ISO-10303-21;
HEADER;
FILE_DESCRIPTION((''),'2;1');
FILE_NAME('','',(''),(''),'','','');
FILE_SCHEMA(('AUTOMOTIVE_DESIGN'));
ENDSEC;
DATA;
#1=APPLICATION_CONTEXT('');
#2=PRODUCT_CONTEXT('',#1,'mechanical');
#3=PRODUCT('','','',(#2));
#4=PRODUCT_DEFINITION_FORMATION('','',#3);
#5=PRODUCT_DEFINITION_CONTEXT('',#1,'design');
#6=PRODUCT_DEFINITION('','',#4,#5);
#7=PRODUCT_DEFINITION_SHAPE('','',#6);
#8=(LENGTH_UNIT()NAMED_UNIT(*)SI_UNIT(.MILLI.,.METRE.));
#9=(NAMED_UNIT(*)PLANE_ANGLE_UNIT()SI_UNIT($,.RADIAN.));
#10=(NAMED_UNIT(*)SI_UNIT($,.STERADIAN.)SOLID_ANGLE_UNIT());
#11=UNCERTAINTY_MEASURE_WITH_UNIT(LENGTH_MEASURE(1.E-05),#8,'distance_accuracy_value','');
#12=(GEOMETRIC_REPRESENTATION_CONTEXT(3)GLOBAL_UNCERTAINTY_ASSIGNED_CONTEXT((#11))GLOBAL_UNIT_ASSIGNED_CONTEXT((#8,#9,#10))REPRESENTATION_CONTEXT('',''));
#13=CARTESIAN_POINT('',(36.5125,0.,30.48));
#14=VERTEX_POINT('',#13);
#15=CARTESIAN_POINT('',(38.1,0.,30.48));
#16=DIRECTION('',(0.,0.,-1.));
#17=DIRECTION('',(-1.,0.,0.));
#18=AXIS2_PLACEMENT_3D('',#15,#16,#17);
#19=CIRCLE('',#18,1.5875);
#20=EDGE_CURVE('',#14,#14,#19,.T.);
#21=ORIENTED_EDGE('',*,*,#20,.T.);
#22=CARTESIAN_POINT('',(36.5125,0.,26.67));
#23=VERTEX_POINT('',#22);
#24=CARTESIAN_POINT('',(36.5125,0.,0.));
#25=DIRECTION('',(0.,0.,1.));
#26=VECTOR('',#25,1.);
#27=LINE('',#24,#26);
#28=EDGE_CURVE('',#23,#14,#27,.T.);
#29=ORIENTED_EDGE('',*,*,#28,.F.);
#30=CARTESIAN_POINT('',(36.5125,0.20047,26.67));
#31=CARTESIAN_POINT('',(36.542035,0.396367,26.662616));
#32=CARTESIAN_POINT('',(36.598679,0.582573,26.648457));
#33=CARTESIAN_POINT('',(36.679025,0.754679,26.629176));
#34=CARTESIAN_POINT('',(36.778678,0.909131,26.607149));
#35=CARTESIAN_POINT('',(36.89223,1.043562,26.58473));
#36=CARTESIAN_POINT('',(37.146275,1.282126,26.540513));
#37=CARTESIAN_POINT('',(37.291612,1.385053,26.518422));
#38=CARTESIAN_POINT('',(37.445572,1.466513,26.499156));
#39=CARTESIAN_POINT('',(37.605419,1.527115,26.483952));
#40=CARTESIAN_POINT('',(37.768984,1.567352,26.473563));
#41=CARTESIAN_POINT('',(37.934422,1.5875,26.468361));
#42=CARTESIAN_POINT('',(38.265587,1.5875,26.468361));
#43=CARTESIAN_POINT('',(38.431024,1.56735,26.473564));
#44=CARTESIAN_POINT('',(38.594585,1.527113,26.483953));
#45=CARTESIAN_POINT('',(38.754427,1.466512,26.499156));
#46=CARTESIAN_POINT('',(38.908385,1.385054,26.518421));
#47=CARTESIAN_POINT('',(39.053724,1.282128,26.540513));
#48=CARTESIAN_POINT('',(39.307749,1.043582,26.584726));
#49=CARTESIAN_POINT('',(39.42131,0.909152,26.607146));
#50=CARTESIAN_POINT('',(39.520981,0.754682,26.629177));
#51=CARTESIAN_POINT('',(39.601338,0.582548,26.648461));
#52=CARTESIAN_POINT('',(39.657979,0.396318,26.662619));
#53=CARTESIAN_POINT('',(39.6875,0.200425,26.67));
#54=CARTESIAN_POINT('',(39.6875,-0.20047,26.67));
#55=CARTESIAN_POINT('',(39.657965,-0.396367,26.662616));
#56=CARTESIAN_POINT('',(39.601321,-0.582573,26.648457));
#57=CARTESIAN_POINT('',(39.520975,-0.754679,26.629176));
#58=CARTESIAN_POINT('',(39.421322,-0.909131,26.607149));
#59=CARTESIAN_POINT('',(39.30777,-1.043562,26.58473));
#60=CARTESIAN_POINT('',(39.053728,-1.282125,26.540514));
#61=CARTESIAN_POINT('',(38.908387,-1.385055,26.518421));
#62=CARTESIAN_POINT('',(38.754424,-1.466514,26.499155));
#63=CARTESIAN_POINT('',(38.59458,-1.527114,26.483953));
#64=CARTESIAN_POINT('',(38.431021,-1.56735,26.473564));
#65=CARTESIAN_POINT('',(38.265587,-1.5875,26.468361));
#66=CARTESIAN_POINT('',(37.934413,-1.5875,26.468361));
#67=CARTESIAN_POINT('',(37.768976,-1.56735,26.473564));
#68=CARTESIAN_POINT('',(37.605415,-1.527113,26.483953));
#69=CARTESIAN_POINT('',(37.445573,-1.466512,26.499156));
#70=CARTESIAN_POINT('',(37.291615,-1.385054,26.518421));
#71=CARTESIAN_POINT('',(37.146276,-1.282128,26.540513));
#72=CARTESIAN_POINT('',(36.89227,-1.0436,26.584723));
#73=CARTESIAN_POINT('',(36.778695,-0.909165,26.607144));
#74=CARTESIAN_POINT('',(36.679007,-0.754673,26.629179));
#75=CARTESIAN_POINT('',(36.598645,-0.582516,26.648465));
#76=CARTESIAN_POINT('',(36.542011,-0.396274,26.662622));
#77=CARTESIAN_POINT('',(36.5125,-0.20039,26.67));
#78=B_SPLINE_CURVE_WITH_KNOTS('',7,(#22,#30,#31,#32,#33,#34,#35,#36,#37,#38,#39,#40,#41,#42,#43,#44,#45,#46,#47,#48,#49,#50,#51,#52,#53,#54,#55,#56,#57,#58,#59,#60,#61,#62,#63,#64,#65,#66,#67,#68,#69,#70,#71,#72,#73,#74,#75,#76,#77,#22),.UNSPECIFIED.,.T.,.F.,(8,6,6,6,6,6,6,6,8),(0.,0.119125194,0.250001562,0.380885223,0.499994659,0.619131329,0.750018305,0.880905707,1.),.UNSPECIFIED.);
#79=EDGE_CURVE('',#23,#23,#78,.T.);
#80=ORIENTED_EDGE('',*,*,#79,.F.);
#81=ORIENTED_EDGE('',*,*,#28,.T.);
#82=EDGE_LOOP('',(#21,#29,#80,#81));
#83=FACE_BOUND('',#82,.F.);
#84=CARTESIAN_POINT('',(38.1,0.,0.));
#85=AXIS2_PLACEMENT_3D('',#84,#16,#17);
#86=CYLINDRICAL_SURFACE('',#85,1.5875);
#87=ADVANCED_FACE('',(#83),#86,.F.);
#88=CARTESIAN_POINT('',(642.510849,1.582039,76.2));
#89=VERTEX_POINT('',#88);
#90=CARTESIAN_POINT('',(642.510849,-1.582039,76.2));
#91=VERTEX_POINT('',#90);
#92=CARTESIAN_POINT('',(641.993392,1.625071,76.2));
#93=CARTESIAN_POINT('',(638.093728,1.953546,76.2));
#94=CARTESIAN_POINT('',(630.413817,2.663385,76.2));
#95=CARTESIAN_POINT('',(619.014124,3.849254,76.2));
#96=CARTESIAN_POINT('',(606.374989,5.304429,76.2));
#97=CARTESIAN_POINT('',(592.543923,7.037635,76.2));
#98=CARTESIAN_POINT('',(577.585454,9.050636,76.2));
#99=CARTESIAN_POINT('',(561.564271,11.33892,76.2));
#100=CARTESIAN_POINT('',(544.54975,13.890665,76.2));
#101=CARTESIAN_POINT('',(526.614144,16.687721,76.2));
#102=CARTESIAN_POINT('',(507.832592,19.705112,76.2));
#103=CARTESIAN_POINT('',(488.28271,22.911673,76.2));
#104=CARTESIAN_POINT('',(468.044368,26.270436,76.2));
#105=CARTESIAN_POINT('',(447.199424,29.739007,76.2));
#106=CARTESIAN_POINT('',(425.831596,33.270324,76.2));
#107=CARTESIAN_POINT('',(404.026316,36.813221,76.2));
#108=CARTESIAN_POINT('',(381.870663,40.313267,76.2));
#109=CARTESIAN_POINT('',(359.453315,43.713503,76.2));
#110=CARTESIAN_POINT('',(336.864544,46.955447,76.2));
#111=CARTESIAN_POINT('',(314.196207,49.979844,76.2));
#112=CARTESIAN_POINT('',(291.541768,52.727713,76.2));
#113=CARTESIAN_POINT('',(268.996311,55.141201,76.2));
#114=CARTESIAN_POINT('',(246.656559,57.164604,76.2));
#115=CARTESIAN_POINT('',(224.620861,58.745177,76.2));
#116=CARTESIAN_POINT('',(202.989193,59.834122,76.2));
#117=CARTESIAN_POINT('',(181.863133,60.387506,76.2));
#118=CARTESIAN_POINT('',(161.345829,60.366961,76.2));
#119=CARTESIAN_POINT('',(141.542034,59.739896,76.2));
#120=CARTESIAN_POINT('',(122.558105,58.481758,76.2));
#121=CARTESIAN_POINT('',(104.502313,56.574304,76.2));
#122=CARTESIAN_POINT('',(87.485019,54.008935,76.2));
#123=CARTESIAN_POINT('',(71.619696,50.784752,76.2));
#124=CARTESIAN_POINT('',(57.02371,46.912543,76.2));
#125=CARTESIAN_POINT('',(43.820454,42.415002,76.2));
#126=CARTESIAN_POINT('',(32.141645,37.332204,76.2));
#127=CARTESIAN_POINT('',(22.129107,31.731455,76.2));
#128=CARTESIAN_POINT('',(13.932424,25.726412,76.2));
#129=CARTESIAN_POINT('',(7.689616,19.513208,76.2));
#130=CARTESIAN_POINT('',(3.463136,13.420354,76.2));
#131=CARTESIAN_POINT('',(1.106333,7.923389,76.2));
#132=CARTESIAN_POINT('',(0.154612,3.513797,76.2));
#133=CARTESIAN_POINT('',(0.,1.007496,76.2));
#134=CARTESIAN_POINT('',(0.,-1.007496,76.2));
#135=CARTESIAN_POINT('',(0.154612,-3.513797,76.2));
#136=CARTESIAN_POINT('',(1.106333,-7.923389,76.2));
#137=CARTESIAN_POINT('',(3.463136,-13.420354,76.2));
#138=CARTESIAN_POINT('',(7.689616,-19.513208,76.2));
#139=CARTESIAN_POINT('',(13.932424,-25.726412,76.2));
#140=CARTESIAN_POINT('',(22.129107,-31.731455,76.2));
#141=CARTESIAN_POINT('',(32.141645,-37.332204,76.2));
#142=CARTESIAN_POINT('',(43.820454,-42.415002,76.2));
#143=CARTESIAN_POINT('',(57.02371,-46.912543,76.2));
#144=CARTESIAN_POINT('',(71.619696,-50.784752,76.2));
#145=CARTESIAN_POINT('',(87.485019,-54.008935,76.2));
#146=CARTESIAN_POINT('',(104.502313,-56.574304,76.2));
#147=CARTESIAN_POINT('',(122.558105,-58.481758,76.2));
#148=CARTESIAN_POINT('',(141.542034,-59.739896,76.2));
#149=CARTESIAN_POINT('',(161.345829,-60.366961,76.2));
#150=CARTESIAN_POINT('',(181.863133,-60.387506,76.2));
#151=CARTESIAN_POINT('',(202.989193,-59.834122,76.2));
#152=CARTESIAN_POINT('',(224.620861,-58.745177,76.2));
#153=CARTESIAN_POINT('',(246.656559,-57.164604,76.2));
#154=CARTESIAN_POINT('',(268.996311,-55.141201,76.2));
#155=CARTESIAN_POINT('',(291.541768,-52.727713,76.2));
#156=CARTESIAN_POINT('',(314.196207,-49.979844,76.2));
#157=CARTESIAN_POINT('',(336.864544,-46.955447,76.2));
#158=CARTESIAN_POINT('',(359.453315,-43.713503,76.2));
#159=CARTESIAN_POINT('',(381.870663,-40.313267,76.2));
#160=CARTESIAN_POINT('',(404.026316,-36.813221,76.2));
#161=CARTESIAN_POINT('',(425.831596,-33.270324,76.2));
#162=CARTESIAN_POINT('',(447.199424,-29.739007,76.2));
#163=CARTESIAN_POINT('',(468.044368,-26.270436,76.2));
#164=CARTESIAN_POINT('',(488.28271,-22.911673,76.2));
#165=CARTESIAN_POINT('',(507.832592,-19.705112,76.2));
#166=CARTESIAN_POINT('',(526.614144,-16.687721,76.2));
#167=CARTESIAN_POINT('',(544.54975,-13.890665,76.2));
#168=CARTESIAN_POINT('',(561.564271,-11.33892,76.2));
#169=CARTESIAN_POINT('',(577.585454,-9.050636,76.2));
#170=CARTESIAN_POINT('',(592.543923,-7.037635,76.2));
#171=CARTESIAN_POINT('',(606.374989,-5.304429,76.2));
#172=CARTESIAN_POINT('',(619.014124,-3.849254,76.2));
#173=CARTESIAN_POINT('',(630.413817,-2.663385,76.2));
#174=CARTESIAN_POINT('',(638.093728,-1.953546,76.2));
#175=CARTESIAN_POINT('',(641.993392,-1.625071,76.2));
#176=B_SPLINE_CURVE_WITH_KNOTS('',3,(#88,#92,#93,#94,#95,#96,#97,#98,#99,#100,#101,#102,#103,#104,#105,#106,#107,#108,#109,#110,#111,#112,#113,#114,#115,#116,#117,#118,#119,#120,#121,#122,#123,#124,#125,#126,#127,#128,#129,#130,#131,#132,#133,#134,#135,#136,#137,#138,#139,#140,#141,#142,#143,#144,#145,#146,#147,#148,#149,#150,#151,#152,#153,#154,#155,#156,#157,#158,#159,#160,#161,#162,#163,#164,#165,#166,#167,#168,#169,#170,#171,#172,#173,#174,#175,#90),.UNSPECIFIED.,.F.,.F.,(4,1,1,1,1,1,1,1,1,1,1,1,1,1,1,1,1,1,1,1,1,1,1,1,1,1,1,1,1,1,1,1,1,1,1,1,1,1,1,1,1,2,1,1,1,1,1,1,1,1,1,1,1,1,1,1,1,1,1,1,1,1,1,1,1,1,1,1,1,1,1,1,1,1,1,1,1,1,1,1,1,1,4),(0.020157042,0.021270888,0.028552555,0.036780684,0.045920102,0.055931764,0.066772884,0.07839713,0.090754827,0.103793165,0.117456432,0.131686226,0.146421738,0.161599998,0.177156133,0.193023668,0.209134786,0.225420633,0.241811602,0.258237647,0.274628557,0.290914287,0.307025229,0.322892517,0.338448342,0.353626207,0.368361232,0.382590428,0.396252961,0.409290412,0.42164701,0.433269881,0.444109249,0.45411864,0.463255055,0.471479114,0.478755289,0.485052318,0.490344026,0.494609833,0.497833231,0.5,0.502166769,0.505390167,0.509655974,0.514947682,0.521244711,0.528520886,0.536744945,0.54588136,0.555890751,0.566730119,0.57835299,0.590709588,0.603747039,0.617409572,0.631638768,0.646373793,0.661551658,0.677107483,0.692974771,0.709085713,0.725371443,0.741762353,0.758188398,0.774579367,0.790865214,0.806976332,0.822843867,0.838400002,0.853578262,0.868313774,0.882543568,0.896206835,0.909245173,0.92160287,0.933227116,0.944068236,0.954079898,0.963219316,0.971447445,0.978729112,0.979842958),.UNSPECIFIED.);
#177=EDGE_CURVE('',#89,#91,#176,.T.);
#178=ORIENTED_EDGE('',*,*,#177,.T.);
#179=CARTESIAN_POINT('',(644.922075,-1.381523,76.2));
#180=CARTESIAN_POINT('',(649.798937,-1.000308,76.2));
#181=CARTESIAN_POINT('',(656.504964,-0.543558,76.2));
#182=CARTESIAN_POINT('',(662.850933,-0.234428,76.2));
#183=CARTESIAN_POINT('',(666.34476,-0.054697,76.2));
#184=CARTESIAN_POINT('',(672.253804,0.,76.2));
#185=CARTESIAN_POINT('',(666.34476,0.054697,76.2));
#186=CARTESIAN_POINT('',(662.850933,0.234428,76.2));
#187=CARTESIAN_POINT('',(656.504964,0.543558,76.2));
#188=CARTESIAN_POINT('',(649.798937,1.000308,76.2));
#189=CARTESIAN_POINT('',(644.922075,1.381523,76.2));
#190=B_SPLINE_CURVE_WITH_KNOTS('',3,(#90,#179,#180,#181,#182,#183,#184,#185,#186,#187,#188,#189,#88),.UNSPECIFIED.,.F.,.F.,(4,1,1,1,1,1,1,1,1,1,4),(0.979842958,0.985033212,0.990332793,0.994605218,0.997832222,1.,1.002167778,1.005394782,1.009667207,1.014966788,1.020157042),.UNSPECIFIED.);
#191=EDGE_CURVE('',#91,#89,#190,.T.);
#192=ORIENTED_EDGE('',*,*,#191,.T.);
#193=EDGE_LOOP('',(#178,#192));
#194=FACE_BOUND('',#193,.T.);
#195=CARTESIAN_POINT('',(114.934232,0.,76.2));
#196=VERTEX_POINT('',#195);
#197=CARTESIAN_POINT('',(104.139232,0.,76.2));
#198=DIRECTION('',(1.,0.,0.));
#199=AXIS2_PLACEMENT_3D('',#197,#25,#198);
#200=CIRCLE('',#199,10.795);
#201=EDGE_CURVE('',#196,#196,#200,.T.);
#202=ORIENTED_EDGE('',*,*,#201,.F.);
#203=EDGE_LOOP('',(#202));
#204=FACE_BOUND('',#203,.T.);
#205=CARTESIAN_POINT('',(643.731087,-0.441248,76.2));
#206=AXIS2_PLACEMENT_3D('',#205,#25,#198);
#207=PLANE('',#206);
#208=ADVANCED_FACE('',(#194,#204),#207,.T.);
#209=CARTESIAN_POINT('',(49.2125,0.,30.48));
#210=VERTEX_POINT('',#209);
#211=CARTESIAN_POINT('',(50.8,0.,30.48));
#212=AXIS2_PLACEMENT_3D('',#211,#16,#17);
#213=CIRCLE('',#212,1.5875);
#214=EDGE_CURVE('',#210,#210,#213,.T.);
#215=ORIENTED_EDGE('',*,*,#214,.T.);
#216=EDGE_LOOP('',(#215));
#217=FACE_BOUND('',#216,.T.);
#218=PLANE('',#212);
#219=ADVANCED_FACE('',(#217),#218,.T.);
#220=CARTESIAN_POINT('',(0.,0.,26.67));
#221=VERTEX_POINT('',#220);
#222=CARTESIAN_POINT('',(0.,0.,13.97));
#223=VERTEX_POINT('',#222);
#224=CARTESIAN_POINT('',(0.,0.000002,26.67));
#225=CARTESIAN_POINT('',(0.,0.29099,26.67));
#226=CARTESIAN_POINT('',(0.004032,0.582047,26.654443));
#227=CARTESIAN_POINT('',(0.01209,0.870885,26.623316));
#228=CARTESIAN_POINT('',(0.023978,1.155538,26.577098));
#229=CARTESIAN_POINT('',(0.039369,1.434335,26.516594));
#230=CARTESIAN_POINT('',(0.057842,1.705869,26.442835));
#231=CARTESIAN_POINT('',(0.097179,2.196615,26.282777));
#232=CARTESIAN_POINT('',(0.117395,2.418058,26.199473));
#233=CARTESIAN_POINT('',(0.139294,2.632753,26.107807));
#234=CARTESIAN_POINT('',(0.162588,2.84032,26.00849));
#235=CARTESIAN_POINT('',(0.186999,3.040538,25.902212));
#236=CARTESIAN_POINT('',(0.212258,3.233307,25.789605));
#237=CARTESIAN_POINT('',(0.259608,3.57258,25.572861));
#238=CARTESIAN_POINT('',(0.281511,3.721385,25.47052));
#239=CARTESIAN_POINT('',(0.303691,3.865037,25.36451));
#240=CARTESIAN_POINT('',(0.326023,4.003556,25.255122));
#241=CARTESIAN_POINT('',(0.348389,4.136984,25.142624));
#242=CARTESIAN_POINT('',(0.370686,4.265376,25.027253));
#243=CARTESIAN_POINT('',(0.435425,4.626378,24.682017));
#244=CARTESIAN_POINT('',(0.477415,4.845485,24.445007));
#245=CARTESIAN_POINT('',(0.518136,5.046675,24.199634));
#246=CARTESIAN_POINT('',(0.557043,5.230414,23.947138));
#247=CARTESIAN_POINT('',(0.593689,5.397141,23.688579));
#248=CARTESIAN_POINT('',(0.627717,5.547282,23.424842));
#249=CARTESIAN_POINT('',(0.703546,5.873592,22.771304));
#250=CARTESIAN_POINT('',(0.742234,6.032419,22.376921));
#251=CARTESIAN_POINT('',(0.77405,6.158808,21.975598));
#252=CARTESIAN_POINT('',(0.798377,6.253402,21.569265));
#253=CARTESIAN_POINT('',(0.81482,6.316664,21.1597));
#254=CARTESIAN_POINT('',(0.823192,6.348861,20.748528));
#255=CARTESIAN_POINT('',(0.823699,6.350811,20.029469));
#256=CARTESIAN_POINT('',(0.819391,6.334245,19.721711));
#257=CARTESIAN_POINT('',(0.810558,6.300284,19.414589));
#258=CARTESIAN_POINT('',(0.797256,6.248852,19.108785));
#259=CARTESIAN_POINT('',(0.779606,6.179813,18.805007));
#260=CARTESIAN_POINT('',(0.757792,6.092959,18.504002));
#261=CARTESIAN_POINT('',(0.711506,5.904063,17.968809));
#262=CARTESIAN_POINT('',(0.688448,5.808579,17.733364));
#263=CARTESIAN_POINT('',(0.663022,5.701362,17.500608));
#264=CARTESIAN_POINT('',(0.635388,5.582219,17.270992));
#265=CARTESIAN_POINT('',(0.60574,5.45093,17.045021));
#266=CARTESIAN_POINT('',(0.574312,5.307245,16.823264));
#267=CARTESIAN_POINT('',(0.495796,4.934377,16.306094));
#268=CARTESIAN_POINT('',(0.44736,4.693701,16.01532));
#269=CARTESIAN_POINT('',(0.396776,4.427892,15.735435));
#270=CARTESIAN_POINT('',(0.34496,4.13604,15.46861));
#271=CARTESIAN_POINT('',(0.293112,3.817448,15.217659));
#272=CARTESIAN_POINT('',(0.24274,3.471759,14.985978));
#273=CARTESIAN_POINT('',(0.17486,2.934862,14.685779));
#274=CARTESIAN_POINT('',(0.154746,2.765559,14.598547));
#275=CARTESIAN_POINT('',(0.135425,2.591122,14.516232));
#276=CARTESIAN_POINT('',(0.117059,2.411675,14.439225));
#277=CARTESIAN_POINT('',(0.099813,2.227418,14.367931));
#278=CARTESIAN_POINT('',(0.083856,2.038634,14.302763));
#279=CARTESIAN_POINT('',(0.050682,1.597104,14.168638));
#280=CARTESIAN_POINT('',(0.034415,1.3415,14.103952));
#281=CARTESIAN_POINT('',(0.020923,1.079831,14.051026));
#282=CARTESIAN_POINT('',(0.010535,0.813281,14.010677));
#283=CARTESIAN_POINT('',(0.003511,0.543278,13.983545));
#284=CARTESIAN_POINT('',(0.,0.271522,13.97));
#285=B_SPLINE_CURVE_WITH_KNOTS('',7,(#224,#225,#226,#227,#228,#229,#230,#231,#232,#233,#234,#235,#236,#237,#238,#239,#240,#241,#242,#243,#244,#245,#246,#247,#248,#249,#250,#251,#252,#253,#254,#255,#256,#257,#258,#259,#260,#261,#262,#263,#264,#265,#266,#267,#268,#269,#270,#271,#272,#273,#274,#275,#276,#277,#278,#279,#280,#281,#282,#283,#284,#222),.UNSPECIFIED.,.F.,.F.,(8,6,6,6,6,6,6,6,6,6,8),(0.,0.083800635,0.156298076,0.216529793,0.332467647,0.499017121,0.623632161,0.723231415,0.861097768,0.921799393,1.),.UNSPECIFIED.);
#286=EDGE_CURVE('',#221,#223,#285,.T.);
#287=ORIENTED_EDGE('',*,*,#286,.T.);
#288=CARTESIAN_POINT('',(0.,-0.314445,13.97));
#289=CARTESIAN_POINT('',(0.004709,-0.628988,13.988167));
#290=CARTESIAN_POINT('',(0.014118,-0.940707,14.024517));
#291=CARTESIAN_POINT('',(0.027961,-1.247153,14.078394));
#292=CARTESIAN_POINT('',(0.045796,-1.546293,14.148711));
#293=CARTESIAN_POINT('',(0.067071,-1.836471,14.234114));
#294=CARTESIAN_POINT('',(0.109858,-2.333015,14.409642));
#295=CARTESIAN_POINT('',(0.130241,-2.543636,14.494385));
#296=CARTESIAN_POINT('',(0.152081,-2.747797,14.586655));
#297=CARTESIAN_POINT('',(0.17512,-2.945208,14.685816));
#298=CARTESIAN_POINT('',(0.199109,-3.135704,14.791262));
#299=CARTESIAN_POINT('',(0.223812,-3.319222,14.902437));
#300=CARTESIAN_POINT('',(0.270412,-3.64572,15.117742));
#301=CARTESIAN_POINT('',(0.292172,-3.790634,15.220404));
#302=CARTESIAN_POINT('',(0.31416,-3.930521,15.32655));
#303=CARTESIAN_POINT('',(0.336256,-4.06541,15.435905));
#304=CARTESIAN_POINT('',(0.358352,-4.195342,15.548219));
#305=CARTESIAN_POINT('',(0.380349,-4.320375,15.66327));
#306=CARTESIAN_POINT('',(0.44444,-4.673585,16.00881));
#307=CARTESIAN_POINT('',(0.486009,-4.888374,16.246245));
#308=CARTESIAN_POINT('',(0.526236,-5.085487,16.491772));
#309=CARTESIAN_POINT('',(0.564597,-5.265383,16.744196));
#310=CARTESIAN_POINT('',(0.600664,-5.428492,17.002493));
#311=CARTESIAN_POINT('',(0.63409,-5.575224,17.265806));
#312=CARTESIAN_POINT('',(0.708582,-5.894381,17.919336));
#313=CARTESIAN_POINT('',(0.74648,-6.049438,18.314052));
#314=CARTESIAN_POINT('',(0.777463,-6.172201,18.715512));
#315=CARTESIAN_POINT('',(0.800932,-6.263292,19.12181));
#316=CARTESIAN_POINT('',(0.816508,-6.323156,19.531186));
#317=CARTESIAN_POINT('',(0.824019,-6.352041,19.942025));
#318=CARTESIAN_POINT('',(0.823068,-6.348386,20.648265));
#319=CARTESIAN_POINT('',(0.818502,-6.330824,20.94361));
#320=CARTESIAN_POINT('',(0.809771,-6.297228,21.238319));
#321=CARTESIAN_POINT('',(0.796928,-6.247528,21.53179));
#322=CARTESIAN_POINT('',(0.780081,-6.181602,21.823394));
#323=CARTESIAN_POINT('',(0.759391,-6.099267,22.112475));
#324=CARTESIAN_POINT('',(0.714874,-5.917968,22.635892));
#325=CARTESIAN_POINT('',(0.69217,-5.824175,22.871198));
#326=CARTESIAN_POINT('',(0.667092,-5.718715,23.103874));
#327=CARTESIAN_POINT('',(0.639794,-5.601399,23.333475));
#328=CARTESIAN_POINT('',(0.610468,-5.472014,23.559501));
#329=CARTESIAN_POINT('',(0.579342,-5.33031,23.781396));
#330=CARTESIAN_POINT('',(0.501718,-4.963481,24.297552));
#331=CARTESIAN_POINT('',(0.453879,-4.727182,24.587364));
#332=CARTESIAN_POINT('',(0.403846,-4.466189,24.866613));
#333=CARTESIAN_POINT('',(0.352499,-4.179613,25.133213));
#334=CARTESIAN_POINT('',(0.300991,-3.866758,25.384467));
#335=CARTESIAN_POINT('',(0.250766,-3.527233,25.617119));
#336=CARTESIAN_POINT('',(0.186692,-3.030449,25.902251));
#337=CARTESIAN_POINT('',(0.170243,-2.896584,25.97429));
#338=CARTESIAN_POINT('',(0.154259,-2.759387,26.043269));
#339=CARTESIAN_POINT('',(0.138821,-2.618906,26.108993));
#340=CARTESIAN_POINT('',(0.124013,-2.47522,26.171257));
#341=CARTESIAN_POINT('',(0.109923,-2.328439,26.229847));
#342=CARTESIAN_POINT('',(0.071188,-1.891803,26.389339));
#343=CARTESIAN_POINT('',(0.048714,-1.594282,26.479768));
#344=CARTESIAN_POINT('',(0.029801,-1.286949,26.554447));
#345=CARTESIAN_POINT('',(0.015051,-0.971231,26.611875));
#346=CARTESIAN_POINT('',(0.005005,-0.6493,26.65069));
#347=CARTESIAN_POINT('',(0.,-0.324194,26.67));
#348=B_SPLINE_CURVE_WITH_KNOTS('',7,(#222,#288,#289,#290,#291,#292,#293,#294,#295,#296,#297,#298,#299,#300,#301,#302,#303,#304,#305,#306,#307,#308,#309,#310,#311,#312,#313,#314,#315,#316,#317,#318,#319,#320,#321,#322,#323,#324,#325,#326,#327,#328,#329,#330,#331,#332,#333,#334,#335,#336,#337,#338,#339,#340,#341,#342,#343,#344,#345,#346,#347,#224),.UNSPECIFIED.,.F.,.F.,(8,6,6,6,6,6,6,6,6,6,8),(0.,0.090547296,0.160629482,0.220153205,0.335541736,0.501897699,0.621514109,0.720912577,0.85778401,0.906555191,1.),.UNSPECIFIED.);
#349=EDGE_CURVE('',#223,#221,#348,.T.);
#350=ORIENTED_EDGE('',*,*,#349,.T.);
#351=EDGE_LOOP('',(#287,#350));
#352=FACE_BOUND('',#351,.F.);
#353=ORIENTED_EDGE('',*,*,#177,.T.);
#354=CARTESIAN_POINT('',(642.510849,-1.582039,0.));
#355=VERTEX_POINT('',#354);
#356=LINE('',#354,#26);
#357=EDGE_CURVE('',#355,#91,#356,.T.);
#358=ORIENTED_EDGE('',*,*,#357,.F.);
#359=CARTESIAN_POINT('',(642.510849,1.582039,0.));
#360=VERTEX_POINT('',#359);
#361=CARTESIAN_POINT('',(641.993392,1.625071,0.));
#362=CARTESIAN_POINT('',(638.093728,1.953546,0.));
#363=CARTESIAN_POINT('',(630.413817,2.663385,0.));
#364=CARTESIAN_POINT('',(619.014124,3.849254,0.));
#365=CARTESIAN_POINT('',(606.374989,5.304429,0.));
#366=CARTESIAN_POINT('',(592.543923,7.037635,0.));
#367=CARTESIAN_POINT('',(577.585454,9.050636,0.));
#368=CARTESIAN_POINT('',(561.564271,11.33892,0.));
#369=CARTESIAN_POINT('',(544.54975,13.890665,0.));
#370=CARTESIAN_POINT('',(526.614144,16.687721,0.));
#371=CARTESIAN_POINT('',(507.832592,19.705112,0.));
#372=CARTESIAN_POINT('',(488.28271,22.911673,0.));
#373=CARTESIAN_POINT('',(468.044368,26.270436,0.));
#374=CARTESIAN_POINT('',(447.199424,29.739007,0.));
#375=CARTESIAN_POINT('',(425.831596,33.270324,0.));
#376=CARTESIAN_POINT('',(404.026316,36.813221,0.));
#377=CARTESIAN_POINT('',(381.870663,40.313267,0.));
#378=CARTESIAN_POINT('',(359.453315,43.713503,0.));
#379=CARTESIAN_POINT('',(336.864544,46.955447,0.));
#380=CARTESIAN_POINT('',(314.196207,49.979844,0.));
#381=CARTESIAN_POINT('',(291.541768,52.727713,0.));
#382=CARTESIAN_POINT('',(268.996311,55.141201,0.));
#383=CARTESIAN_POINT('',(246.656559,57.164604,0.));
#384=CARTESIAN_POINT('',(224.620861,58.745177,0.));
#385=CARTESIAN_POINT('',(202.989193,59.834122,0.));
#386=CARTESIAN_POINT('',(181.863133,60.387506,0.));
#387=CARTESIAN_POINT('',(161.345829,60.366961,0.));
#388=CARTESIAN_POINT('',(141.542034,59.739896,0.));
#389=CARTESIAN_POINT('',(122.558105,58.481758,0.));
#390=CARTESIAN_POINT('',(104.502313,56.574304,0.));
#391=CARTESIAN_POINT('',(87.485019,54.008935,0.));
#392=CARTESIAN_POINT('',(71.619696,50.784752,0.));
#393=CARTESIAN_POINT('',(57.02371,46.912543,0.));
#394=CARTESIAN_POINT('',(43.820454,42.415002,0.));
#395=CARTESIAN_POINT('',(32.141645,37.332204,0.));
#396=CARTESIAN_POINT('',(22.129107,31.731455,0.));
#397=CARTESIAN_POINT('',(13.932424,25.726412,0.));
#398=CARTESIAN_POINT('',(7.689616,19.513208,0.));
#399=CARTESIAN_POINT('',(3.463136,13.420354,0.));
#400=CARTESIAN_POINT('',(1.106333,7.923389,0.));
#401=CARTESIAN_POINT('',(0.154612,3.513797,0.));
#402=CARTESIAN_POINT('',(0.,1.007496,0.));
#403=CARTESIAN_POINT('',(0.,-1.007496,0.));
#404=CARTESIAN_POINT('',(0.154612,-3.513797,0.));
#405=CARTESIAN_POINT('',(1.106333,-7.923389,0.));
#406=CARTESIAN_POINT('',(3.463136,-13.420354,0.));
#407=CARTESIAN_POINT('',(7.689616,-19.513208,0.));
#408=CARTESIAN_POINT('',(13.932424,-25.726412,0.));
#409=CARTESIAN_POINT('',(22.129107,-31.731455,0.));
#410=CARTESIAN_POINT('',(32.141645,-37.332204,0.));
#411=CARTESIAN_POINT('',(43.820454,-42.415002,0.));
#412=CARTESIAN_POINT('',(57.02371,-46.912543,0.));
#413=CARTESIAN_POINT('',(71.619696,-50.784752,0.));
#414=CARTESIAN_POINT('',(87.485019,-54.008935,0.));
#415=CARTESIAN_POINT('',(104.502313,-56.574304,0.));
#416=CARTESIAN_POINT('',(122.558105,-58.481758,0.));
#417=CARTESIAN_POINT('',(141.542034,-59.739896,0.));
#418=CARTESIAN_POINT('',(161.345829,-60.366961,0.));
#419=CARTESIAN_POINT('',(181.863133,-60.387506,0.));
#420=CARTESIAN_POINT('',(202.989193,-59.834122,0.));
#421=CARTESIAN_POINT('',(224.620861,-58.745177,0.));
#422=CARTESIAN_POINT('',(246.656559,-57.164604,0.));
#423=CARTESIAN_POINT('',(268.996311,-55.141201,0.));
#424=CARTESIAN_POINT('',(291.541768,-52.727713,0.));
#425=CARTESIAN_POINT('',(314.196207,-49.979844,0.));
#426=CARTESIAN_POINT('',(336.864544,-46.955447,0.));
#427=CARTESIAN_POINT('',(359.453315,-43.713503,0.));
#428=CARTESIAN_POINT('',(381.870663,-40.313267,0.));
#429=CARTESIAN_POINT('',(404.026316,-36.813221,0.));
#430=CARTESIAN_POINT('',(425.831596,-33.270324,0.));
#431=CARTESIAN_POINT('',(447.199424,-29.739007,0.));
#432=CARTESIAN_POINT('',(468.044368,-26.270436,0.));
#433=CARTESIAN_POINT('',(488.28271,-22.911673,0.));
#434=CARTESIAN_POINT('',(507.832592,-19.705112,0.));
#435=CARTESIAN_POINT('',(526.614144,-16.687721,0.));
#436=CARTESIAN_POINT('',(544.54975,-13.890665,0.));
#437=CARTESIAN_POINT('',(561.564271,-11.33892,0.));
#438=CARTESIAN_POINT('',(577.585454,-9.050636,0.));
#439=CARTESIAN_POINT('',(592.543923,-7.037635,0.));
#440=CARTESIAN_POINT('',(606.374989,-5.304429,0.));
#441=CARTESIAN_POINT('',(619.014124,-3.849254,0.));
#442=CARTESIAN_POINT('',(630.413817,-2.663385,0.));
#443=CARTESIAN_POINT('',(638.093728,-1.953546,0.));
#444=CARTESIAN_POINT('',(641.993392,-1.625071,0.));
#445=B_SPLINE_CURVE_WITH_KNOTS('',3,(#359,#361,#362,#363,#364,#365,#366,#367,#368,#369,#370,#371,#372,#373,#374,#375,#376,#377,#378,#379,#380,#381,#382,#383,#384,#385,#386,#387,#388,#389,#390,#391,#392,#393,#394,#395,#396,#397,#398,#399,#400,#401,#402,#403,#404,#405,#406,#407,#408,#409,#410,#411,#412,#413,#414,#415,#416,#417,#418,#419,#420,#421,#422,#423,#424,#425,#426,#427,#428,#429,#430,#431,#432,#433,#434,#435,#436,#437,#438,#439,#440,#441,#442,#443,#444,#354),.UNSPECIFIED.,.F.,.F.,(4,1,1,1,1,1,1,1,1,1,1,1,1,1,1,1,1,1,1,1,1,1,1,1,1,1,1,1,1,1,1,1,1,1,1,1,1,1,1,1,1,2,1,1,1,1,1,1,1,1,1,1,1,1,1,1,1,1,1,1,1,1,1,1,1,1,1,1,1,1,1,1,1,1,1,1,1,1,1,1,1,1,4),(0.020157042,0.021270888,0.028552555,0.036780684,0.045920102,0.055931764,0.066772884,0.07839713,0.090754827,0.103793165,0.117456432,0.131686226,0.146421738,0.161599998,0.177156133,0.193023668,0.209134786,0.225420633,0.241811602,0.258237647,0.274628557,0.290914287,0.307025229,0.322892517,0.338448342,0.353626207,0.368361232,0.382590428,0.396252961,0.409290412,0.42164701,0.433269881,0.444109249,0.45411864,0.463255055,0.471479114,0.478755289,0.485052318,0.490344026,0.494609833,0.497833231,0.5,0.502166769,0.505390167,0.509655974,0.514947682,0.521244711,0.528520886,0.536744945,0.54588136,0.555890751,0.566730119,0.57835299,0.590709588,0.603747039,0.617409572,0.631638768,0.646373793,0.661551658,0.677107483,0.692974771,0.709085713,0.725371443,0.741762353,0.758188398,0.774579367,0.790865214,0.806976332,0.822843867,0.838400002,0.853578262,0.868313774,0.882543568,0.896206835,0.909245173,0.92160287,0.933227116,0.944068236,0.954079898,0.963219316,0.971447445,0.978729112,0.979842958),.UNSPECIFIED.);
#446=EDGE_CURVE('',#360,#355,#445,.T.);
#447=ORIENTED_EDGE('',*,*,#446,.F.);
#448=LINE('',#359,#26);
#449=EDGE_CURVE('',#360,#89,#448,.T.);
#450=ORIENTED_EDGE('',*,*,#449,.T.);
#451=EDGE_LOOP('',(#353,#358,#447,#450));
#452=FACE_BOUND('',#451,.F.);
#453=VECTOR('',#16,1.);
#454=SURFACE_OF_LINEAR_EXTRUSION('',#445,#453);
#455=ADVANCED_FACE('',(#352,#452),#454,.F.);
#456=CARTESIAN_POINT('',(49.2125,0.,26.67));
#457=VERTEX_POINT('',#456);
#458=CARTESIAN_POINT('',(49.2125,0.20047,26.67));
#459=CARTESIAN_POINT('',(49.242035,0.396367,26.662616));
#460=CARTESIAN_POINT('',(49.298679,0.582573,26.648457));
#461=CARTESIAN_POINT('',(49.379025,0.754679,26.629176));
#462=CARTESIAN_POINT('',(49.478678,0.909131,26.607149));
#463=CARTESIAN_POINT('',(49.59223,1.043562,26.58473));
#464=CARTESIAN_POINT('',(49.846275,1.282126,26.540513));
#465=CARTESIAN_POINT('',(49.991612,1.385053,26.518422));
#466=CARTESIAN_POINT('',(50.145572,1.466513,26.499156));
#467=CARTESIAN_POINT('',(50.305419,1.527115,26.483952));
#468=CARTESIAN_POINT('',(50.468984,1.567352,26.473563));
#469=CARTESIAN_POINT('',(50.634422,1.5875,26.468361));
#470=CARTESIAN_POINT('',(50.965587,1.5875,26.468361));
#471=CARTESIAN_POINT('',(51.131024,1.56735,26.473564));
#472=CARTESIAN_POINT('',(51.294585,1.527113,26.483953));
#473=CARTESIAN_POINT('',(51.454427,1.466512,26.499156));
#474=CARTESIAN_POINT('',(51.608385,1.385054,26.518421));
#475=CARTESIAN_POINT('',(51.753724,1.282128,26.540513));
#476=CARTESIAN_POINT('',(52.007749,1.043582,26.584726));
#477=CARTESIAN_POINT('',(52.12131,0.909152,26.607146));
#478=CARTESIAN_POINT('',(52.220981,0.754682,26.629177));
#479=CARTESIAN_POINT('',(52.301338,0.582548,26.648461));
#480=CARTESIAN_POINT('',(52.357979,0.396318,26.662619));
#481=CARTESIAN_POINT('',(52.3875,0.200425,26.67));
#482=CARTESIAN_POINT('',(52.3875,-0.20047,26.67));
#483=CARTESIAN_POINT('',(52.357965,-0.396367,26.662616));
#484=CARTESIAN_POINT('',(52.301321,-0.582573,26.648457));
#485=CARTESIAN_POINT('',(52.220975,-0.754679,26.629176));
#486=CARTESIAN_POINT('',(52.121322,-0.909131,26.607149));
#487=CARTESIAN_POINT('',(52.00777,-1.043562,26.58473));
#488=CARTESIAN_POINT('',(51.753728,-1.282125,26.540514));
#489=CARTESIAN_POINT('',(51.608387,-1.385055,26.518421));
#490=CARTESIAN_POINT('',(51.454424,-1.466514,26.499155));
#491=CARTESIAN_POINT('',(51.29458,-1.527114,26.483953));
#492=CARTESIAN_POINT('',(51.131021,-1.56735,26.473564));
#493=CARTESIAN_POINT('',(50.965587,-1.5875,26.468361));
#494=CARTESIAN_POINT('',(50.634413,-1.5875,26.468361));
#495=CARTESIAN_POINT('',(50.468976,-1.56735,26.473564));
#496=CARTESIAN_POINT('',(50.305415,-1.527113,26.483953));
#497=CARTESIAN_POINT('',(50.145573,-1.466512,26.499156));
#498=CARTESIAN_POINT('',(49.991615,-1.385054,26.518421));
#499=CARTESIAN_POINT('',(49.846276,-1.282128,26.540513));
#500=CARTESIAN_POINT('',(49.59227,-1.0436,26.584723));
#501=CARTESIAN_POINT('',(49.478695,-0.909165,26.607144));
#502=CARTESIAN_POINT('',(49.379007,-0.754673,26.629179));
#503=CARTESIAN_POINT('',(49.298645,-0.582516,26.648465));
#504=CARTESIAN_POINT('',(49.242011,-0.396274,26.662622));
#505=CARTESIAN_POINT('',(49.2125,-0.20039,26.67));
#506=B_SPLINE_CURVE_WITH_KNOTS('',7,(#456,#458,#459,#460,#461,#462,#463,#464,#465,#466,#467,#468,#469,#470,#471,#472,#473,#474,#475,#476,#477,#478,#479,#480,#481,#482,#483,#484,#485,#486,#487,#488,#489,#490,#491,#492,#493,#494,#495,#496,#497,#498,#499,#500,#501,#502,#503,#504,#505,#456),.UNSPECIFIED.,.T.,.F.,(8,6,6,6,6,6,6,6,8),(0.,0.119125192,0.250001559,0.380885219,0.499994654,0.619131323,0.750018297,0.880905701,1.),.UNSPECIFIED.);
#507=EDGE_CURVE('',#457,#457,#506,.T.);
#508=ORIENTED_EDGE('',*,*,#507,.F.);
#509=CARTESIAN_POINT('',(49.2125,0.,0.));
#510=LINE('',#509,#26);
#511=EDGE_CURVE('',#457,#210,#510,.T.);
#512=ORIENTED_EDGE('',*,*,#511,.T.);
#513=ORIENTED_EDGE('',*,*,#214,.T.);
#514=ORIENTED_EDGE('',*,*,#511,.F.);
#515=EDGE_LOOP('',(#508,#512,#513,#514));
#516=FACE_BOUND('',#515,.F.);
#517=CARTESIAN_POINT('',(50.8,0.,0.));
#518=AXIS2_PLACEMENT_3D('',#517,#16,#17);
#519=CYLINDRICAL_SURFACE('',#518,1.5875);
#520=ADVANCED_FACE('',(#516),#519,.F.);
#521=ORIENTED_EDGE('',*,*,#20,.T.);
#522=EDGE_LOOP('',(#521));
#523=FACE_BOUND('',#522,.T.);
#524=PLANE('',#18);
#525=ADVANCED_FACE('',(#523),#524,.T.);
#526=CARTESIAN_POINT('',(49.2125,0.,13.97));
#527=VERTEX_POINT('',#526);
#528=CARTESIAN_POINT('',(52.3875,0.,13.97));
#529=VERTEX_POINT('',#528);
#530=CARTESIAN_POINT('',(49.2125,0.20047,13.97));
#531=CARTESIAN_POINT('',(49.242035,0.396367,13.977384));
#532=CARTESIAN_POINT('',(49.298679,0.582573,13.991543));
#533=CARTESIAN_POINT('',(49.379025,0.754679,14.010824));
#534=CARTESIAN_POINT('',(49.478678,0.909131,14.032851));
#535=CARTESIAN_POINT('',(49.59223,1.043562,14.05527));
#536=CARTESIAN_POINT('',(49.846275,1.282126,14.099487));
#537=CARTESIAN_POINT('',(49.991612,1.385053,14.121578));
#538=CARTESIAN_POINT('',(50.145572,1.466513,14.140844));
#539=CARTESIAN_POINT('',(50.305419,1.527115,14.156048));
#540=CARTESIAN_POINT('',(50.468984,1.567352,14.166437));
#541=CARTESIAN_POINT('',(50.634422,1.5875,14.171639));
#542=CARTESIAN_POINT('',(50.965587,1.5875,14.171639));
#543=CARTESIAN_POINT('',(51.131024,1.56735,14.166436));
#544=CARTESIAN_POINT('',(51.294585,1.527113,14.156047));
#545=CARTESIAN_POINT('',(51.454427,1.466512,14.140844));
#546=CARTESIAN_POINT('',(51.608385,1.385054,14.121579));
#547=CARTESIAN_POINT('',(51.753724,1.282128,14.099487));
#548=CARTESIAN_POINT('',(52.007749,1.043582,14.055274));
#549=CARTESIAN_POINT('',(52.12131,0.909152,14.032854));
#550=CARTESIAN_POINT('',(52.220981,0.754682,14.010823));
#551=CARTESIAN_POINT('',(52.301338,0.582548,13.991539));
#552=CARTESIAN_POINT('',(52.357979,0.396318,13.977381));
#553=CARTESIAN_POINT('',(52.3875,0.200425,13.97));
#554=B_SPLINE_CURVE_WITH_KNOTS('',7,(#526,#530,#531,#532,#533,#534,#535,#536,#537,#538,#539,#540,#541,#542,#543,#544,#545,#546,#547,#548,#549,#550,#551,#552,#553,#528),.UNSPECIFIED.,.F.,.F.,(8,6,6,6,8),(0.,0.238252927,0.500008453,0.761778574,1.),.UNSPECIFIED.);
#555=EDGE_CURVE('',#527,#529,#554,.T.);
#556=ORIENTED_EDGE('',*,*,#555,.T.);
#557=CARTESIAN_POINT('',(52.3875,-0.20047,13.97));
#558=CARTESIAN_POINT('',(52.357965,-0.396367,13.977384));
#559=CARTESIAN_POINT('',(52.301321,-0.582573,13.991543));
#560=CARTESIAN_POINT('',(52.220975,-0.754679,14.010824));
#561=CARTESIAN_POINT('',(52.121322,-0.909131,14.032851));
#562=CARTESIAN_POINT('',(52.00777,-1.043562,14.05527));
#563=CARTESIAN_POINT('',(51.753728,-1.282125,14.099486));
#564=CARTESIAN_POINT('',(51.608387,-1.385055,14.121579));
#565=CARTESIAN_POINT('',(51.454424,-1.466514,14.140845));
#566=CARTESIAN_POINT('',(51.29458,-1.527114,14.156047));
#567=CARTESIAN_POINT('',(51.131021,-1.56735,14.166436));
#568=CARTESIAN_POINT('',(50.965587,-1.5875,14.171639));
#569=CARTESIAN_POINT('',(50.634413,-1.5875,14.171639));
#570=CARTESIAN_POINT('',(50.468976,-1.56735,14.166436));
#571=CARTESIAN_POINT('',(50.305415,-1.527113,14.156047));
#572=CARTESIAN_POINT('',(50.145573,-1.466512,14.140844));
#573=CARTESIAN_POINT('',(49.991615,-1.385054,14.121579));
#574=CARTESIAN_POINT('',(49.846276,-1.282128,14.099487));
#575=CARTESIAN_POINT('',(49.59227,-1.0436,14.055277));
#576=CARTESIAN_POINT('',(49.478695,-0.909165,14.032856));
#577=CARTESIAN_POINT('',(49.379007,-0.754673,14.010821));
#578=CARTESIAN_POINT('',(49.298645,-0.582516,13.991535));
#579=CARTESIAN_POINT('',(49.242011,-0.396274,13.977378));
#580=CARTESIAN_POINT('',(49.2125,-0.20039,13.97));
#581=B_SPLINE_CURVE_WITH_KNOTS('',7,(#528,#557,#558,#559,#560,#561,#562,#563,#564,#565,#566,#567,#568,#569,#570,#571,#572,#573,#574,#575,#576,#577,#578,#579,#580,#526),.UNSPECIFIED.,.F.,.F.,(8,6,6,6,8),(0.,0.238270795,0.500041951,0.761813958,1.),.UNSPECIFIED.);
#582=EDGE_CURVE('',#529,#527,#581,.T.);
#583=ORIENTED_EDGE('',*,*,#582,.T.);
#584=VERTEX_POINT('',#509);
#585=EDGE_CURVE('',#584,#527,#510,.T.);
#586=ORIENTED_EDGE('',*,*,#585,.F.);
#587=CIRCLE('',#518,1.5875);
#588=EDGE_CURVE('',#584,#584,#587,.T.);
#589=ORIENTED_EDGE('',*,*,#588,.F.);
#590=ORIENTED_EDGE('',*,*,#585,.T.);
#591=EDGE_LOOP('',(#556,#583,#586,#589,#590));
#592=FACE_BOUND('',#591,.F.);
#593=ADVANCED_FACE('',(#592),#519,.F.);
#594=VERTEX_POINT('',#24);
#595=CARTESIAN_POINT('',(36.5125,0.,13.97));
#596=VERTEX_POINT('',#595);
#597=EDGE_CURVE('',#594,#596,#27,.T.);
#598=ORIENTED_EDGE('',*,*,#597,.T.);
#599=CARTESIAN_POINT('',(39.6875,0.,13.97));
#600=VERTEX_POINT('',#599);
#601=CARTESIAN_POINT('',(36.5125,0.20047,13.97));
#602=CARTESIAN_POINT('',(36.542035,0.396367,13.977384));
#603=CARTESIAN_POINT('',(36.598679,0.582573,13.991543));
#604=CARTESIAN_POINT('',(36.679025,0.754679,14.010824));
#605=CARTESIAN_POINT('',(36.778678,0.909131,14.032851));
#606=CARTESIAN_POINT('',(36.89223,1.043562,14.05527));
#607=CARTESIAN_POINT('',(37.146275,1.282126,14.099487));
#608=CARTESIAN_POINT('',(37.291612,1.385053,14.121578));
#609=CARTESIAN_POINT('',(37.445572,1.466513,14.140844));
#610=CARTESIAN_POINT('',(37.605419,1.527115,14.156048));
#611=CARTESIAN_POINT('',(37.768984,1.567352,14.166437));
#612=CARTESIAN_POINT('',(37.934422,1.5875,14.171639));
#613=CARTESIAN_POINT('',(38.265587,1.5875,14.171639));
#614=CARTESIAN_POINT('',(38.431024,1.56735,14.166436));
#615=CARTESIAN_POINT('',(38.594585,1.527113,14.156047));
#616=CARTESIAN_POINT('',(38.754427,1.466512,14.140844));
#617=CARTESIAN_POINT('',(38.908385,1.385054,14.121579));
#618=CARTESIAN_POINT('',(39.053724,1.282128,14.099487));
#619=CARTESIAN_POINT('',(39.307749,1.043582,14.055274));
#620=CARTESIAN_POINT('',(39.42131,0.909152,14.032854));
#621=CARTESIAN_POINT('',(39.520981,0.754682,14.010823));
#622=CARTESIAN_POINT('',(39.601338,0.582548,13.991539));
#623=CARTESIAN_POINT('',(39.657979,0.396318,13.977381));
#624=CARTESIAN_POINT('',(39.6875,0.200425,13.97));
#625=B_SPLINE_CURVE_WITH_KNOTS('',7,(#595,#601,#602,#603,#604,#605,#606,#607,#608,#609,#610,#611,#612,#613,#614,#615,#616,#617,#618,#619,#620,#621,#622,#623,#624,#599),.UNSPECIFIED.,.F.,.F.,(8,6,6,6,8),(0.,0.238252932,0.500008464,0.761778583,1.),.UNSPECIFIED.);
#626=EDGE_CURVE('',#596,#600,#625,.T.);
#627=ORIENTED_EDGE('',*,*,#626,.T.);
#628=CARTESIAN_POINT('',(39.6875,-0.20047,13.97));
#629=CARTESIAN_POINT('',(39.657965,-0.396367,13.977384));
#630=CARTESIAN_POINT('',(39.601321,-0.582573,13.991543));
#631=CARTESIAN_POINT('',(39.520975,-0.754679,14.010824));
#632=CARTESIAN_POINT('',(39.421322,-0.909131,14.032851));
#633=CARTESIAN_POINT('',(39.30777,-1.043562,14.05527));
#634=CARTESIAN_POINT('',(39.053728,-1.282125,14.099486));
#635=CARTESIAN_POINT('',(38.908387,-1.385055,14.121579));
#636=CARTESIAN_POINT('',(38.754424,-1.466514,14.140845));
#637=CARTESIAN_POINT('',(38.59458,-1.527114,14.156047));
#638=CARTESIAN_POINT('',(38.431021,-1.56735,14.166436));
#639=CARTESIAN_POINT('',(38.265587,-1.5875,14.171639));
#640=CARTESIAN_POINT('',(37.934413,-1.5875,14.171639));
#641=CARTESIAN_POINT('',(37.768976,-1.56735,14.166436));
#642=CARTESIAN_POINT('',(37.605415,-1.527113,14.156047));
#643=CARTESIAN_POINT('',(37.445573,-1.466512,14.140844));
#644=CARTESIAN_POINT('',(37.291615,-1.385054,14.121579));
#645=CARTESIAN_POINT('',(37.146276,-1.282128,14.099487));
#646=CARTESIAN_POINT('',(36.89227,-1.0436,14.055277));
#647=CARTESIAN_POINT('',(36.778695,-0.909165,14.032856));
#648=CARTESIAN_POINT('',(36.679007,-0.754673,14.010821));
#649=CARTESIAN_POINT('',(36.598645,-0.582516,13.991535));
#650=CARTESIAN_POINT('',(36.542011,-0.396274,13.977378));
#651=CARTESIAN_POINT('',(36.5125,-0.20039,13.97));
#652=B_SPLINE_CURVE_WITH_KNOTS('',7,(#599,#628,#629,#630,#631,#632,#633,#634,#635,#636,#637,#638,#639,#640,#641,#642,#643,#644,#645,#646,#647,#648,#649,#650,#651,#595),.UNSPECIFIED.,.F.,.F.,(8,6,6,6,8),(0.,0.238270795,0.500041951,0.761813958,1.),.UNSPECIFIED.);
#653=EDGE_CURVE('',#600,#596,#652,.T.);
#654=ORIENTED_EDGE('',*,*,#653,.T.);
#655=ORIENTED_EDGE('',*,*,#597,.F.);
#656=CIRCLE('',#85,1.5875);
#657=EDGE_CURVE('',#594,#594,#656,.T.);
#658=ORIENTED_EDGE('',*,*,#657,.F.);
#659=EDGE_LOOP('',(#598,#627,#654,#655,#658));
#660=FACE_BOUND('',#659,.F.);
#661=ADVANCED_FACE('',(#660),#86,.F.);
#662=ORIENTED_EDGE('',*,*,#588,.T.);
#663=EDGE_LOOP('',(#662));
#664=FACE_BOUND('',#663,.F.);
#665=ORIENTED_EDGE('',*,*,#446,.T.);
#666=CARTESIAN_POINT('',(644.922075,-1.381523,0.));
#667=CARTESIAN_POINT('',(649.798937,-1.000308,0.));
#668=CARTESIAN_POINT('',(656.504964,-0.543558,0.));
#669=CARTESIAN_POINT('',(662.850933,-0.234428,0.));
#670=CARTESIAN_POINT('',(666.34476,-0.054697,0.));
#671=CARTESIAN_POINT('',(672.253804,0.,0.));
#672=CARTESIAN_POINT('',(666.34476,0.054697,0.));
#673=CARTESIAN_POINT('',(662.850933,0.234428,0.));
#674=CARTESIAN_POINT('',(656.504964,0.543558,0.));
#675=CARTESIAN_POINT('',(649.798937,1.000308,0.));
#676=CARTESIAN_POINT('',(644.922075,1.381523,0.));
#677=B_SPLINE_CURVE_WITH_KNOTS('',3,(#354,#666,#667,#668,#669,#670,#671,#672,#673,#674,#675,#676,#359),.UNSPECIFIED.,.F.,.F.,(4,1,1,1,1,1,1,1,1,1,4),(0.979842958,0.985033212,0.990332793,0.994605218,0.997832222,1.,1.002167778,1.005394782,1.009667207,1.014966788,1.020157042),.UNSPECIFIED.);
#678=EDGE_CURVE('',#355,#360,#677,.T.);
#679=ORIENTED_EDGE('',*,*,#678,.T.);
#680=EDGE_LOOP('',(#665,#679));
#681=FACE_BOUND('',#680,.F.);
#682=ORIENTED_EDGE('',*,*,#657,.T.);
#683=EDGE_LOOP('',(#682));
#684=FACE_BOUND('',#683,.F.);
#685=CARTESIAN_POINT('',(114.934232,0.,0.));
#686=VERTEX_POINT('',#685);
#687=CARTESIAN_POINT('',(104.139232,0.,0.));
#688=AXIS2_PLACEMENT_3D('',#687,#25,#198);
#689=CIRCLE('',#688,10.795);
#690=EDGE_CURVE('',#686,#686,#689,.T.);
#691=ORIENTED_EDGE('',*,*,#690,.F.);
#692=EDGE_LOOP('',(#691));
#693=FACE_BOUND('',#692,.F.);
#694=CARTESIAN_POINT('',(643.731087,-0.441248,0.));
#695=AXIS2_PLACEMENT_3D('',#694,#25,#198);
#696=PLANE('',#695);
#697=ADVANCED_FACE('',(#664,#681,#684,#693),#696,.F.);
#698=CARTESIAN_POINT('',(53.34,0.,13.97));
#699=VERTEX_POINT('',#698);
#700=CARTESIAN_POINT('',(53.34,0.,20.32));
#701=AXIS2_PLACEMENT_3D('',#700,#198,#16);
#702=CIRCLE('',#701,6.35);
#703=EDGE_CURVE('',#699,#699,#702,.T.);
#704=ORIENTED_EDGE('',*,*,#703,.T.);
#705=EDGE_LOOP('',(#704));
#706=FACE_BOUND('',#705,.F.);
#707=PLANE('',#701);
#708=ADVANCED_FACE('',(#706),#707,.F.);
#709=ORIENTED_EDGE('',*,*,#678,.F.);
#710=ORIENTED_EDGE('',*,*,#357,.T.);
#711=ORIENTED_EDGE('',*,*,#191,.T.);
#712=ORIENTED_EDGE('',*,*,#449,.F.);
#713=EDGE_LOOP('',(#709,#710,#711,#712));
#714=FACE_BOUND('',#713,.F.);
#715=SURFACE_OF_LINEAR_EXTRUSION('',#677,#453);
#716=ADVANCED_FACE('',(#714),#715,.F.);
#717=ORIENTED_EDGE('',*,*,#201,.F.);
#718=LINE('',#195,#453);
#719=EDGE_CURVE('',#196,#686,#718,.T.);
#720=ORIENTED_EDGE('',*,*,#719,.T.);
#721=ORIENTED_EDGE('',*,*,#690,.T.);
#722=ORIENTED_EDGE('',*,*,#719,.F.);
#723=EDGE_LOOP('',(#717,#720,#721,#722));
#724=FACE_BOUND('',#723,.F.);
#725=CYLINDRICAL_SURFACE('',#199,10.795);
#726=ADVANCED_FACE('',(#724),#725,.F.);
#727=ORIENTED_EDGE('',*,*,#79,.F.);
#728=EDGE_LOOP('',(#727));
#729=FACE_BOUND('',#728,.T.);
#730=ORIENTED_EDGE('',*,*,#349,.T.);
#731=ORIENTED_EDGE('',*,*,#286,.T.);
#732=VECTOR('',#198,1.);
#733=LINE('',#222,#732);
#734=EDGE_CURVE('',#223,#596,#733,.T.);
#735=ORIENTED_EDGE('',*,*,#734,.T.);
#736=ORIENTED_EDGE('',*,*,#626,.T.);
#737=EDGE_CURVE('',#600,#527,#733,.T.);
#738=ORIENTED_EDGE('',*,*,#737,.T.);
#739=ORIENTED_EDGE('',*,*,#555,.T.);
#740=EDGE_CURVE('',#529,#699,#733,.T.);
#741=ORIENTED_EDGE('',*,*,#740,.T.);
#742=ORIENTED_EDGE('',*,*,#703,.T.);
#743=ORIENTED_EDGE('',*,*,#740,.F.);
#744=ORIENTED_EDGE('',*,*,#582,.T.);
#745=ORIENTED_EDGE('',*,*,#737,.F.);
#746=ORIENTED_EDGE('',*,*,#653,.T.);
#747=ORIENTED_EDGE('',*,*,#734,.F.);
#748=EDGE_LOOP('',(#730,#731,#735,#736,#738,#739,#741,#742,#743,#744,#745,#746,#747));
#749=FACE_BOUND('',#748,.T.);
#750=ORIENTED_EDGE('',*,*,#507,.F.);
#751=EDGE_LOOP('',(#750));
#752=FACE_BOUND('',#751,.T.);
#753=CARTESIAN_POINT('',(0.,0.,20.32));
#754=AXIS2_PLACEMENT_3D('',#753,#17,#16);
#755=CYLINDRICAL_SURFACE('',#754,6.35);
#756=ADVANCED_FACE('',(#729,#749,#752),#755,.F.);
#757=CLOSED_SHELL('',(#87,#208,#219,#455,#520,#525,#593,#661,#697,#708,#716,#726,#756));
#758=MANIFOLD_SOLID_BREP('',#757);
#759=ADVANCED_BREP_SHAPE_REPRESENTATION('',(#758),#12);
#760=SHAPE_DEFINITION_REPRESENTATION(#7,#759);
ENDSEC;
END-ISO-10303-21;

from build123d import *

# Parameters (mm, degrees)
BOSS_EXTRUDE1_DEPTH     = 76.2
SKETCH3_R               = 10.795
CUT_EXTRUDE2_DEPTH      = 76.2
SKETCH6_R               = 6.35
CUT_EXTRUDE3_DEPTH      = 53.34
CUT_EXTRUDE3_DEPTH_BACK = 0.000254
SKETCH7_R               = 1.5875
CUT_EXTRUDE4_DEPTH      = 30.48


with BuildPart() as part:
    # Sketch1 → Boss-Extrude1 (new body)
    with BuildSketch(Plane.XY):
        with BuildLine():
            Line((643.966787522, 0), (643.599082689, 0))
            Line((643.599082689, 0), (643.599082689, -1.016))
            ThreePointArc((643.599082689, -1.016), (643.872033494, -0.540245973), (643.966787522, 0))
        make_face()
        with BuildLine():
            Line((643.599082689, -1.016), (643.599082689, 0))
            Line((643.599082689, 0), (641.567082689, 0))
            ThreePointArc((641.567082689, 0), (642.269121423, -1.135922533), (643.599082689, -1.016))
        make_face()
        with BuildLine():
            Line((641.567082689, 0), (643.599082689, 0))
            Line((643.599082689, 0), (643.966787522, 0))
            ThreePointArc((643.966787522, 0), (643.547407924, 1.075012082), (642.510849283, 1.582039112))
            add(Edge.make_bspline(
                [(642.510849283, 1.582039112), (641.993392355, 1.625070631), (638.093728429, 1.953546407), (630.413817462, 2.663385493), (619.014124193, 3.849253664), (606.374988512, 5.304428983), (592.543922516, 7.037634907), (577.585454095, 9.050636147), (561.564270734, 11.338919625), (544.549749946, 13.890665375), (526.614143658, 16.687720753), (507.832591566, 19.705111663), (488.282710288, 22.911672601), (468.044367735, 26.27043606), (447.199424328, 29.739007432), (425.831595832, 33.270324121), (404.02631566, 36.813220545), (381.870662856, 40.313266856), (359.453314895, 43.713502532), (336.86454415, 46.955447457), (314.196207315, 49.979843895), (291.541767704, 52.727712704), (268.996310773, 55.141201012), (246.65655865, 57.164603829), (224.620860897, 58.745176641), (202.989192599, 59.8341217), (181.863132616, 60.387506142), (161.345829027, 60.366961324), (141.542033828, 59.739895824), (122.558104573, 58.481758104), (104.502313427, 56.574303932), (87.485018636, 54.008935199), (71.619696083, 50.784752003), (57.023709725, 46.912543066), (43.82045433, 42.41500246), (32.141645239, 37.332204029), (22.129107375, 31.731455339), (13.932423524, 25.726412106), (7.689616489, 19.513207632), (3.463136343, 13.420354421), (1.106333228, 7.923389435), (0.154611582, 3.513796615), (0, 1.007496172), (0, 0)],
                knots=[0.020157042, 0.020157042, 0.020157042, 0.020157042, 0.021270888, 0.028552555, 0.036780684, 0.045920102, 0.055931764, 0.066772884, 0.07839713, 0.090754827, 0.103793165, 0.117456432, 0.131686226, 0.146421738, 0.161599998, 0.177156133, 0.193023668, 0.209134786, 0.225420633, 0.241811602, 0.258237647, 0.274628557, 0.290914287, 0.307025229, 0.322892517, 0.338448342, 0.353626207, 0.368361232, 0.382590428, 0.396252961, 0.409290412, 0.42164701, 0.433269881, 0.444109249, 0.45411864, 0.463255055, 0.471479114, 0.478755289, 0.485052318, 0.490344026, 0.494609833, 0.497833231, 0.5, 0.5, 0.5, 0.5], degree=3))
            Line((0, 0), (27.94, 0))
            ThreePointArc((27.94, 0), (40.64, 12.7), (53.34, 0))
            Line((53.34, 0), (93.345, 0))
            ThreePointArc((93.345, 0), (104.14, 10.795), (114.935, 0))
            Line((114.935, 0), (460.660965279, 0))
            Line((460.660965279, 0), (473.360965279, 0))
            Line((473.360965279, 0), (641.567082689, 0))
        make_face()
        with BuildLine():
            ThreePointArc((642.510849283, -1.582039112), (643.111845681, -1.408373102), (643.599082689, -1.016))
            ThreePointArc((643.599082689, -1.016), (642.269121423, -1.135922533), (641.567082689, 0))
            Line((641.567082689, 0), (473.360965279, 0))
            Line((473.360965279, 0), (460.660965279, 0))
            Line((460.660965279, 0), (114.935, 0))
            ThreePointArc((114.935, 0), (104.14, -10.795), (93.345, 0))
            Line((93.345, 0), (53.34, 0))
            ThreePointArc((53.34, 0), (40.64, -12.7), (27.94, 0))
            Line((27.94, 0), (0, 0))
            add(Edge.make_bspline(
                [(0, 0), (0, -1.007496172), (0.154611582, -3.513796615), (1.106333228, -7.923389435), (3.463136343, -13.420354421), (7.689616489, -19.513207632), (13.932423524, -25.726412106), (22.129107375, -31.731455339), (32.141645239, -37.332204029), (43.82045433, -42.41500246), (57.023709725, -46.912543066), (71.619696083, -50.784752003), (87.485018636, -54.008935199), (104.502313427, -56.574303932), (122.558104573, -58.481758104), (141.542033828, -59.739895824), (161.345829027, -60.366961324), (181.863132616, -60.387506142), (202.989192599, -59.8341217), (224.620860897, -58.745176641), (246.65655865, -57.164603829), (268.996310773, -55.141201012), (291.541767704, -52.727712704), (314.196207315, -49.979843895), (336.86454415, -46.955447457), (359.453314895, -43.713502532), (381.870662856, -40.313266856), (404.02631566, -36.813220545), (425.831595832, -33.270324121), (447.199424328, -29.739007432), (468.044367735, -26.27043606), (488.282710288, -22.911672601), (507.832591566, -19.705111663), (526.614143658, -16.687720753), (544.549749946, -13.890665375), (561.564270734, -11.338919625), (577.585454095, -9.050636147), (592.543922516, -7.037634907), (606.374988512, -5.304428983), (619.014124193, -3.849253664), (630.413817462, -2.663385493), (638.093728429, -1.953546407), (641.993392355, -1.625070631), (642.510849283, -1.582039112)],
                knots=[0.5, 0.5, 0.5, 0.5, 0.502166769, 0.505390167, 0.509655974, 0.514947682, 0.521244711, 0.528520886, 0.536744945, 0.54588136, 0.555890751, 0.566730119, 0.57835299, 0.590709588, 0.603747039, 0.617409572, 0.631638768, 0.646373793, 0.661551658, 0.677107483, 0.692974771, 0.709085713, 0.725371443, 0.741762353, 0.758188398, 0.774579367, 0.790865214, 0.806976332, 0.822843867, 0.838400002, 0.853578262, 0.868313774, 0.882543568, 0.896206835, 0.909245173, 0.92160287, 0.933227116, 0.944068236, 0.954079898, 0.963219316, 0.971447445, 0.978729112, 0.979842958, 0.979842958, 0.979842958, 0.979842958], degree=3))
        make_face()
        with BuildLine():
            ThreePointArc((643.966787522, 0), (643.872033494, -0.540245973), (643.599082689, -1.016))
            ThreePointArc((643.599082689, -1.016), (643.111845681, -1.408373102), (642.510849283, -1.582039112))
            add(Edge.make_bspline(
                [(642.510849283, -1.582039112), (644.922074617, -1.381522545), (649.798936594, -1.000308437), (656.504964311, -0.543558383), (662.850933168, -0.234427605), (666.344759683, -0.054696708), (670.56, -0.015678595), (670.56, 0)],
                knots=[0.979842958, 0.979842958, 0.979842958, 0.979842958, 0.985033212, 0.990332793, 0.994605218, 0.997832222, 1, 1, 1, 1], degree=3))
            add(Edge.make_bspline(
                [(670.56, 0), (670.56, 0.015678595), (666.344759683, 0.054696708), (662.850933168, 0.234427605), (656.504964311, 0.543558383), (649.798936594, 1.000308437), (644.922074617, 1.381522545), (642.510849283, 1.582039112)],
                knots=[0, 0, 0, 0, 0.002167778, 0.005394782, 0.009667207, 0.014966788, 0.020157042, 0.020157042, 0.020157042, 0.020157042], degree=3))
            ThreePointArc((642.510849283, 1.582039112), (643.547407924, 1.075012082), (643.966787522, 0))
        make_face()
        with BuildLine():
            ThreePointArc((53.34, 0), (40.64, 12.7), (27.94, 0))
            Line((27.94, 0), (53.34, 0))
        make_face()
        with BuildLine():
            Line((53.34, 0), (27.94, 0))
            ThreePointArc((27.94, 0), (40.64, -12.7), (53.34, 0))
        make_face()
        with BuildLine():
            ThreePointArc((93.345, 0), (104.14, -10.795), (114.935, 0))
            Line((114.935, 0), (93.345, 0))
        make_face()
        with BuildLine():
            Line((93.345, 0), (114.935, 0))
            ThreePointArc((114.935, 0), (104.14, 10.795), (93.345, 0))
        make_face()
    extrude(amount=BOSS_EXTRUDE1_DEPTH)

    # Sketch3 → Cut-Extrude2 (cut)
    with BuildSketch(Plane.XY.offset(76.2)):
        with Locations((104.139232412, 0)):
            Circle(SKETCH3_R)
    extrude(amount=-CUT_EXTRUDE2_DEPTH, mode=Mode.SUBTRACT)

    # Sketch6 → Cut-Extrude3 (cut, two sides)
    with BuildSketch(Plane(origin=(0, 0, 0), x_dir=(0, 0, -1), z_dir=(1, 0, 0))) as cut_extrude3_sk:
        with Locations((-20.32, 0)):
            Circle(SKETCH6_R)
    extrude(amount=CUT_EXTRUDE3_DEPTH, mode=Mode.SUBTRACT)
    extrude(cut_extrude3_sk.sketch, amount=-CUT_EXTRUDE3_DEPTH_BACK, mode=Mode.SUBTRACT)

    # Sketch7 → Cut-Extrude4 (cut)
    with BuildSketch(Plane(origin=(0, 0, 0), x_dir=(-1, 0, 0), z_dir=(0, 0, -1))):
        with Locations((-38.1, 0)):
            Circle(SKETCH7_R)
        with Locations((-50.8, 0)):
            Circle(SKETCH7_R)
    extrude(amount=-CUT_EXTRUDE4_DEPTH, mode=Mode.SUBTRACT)


solid = part.part
